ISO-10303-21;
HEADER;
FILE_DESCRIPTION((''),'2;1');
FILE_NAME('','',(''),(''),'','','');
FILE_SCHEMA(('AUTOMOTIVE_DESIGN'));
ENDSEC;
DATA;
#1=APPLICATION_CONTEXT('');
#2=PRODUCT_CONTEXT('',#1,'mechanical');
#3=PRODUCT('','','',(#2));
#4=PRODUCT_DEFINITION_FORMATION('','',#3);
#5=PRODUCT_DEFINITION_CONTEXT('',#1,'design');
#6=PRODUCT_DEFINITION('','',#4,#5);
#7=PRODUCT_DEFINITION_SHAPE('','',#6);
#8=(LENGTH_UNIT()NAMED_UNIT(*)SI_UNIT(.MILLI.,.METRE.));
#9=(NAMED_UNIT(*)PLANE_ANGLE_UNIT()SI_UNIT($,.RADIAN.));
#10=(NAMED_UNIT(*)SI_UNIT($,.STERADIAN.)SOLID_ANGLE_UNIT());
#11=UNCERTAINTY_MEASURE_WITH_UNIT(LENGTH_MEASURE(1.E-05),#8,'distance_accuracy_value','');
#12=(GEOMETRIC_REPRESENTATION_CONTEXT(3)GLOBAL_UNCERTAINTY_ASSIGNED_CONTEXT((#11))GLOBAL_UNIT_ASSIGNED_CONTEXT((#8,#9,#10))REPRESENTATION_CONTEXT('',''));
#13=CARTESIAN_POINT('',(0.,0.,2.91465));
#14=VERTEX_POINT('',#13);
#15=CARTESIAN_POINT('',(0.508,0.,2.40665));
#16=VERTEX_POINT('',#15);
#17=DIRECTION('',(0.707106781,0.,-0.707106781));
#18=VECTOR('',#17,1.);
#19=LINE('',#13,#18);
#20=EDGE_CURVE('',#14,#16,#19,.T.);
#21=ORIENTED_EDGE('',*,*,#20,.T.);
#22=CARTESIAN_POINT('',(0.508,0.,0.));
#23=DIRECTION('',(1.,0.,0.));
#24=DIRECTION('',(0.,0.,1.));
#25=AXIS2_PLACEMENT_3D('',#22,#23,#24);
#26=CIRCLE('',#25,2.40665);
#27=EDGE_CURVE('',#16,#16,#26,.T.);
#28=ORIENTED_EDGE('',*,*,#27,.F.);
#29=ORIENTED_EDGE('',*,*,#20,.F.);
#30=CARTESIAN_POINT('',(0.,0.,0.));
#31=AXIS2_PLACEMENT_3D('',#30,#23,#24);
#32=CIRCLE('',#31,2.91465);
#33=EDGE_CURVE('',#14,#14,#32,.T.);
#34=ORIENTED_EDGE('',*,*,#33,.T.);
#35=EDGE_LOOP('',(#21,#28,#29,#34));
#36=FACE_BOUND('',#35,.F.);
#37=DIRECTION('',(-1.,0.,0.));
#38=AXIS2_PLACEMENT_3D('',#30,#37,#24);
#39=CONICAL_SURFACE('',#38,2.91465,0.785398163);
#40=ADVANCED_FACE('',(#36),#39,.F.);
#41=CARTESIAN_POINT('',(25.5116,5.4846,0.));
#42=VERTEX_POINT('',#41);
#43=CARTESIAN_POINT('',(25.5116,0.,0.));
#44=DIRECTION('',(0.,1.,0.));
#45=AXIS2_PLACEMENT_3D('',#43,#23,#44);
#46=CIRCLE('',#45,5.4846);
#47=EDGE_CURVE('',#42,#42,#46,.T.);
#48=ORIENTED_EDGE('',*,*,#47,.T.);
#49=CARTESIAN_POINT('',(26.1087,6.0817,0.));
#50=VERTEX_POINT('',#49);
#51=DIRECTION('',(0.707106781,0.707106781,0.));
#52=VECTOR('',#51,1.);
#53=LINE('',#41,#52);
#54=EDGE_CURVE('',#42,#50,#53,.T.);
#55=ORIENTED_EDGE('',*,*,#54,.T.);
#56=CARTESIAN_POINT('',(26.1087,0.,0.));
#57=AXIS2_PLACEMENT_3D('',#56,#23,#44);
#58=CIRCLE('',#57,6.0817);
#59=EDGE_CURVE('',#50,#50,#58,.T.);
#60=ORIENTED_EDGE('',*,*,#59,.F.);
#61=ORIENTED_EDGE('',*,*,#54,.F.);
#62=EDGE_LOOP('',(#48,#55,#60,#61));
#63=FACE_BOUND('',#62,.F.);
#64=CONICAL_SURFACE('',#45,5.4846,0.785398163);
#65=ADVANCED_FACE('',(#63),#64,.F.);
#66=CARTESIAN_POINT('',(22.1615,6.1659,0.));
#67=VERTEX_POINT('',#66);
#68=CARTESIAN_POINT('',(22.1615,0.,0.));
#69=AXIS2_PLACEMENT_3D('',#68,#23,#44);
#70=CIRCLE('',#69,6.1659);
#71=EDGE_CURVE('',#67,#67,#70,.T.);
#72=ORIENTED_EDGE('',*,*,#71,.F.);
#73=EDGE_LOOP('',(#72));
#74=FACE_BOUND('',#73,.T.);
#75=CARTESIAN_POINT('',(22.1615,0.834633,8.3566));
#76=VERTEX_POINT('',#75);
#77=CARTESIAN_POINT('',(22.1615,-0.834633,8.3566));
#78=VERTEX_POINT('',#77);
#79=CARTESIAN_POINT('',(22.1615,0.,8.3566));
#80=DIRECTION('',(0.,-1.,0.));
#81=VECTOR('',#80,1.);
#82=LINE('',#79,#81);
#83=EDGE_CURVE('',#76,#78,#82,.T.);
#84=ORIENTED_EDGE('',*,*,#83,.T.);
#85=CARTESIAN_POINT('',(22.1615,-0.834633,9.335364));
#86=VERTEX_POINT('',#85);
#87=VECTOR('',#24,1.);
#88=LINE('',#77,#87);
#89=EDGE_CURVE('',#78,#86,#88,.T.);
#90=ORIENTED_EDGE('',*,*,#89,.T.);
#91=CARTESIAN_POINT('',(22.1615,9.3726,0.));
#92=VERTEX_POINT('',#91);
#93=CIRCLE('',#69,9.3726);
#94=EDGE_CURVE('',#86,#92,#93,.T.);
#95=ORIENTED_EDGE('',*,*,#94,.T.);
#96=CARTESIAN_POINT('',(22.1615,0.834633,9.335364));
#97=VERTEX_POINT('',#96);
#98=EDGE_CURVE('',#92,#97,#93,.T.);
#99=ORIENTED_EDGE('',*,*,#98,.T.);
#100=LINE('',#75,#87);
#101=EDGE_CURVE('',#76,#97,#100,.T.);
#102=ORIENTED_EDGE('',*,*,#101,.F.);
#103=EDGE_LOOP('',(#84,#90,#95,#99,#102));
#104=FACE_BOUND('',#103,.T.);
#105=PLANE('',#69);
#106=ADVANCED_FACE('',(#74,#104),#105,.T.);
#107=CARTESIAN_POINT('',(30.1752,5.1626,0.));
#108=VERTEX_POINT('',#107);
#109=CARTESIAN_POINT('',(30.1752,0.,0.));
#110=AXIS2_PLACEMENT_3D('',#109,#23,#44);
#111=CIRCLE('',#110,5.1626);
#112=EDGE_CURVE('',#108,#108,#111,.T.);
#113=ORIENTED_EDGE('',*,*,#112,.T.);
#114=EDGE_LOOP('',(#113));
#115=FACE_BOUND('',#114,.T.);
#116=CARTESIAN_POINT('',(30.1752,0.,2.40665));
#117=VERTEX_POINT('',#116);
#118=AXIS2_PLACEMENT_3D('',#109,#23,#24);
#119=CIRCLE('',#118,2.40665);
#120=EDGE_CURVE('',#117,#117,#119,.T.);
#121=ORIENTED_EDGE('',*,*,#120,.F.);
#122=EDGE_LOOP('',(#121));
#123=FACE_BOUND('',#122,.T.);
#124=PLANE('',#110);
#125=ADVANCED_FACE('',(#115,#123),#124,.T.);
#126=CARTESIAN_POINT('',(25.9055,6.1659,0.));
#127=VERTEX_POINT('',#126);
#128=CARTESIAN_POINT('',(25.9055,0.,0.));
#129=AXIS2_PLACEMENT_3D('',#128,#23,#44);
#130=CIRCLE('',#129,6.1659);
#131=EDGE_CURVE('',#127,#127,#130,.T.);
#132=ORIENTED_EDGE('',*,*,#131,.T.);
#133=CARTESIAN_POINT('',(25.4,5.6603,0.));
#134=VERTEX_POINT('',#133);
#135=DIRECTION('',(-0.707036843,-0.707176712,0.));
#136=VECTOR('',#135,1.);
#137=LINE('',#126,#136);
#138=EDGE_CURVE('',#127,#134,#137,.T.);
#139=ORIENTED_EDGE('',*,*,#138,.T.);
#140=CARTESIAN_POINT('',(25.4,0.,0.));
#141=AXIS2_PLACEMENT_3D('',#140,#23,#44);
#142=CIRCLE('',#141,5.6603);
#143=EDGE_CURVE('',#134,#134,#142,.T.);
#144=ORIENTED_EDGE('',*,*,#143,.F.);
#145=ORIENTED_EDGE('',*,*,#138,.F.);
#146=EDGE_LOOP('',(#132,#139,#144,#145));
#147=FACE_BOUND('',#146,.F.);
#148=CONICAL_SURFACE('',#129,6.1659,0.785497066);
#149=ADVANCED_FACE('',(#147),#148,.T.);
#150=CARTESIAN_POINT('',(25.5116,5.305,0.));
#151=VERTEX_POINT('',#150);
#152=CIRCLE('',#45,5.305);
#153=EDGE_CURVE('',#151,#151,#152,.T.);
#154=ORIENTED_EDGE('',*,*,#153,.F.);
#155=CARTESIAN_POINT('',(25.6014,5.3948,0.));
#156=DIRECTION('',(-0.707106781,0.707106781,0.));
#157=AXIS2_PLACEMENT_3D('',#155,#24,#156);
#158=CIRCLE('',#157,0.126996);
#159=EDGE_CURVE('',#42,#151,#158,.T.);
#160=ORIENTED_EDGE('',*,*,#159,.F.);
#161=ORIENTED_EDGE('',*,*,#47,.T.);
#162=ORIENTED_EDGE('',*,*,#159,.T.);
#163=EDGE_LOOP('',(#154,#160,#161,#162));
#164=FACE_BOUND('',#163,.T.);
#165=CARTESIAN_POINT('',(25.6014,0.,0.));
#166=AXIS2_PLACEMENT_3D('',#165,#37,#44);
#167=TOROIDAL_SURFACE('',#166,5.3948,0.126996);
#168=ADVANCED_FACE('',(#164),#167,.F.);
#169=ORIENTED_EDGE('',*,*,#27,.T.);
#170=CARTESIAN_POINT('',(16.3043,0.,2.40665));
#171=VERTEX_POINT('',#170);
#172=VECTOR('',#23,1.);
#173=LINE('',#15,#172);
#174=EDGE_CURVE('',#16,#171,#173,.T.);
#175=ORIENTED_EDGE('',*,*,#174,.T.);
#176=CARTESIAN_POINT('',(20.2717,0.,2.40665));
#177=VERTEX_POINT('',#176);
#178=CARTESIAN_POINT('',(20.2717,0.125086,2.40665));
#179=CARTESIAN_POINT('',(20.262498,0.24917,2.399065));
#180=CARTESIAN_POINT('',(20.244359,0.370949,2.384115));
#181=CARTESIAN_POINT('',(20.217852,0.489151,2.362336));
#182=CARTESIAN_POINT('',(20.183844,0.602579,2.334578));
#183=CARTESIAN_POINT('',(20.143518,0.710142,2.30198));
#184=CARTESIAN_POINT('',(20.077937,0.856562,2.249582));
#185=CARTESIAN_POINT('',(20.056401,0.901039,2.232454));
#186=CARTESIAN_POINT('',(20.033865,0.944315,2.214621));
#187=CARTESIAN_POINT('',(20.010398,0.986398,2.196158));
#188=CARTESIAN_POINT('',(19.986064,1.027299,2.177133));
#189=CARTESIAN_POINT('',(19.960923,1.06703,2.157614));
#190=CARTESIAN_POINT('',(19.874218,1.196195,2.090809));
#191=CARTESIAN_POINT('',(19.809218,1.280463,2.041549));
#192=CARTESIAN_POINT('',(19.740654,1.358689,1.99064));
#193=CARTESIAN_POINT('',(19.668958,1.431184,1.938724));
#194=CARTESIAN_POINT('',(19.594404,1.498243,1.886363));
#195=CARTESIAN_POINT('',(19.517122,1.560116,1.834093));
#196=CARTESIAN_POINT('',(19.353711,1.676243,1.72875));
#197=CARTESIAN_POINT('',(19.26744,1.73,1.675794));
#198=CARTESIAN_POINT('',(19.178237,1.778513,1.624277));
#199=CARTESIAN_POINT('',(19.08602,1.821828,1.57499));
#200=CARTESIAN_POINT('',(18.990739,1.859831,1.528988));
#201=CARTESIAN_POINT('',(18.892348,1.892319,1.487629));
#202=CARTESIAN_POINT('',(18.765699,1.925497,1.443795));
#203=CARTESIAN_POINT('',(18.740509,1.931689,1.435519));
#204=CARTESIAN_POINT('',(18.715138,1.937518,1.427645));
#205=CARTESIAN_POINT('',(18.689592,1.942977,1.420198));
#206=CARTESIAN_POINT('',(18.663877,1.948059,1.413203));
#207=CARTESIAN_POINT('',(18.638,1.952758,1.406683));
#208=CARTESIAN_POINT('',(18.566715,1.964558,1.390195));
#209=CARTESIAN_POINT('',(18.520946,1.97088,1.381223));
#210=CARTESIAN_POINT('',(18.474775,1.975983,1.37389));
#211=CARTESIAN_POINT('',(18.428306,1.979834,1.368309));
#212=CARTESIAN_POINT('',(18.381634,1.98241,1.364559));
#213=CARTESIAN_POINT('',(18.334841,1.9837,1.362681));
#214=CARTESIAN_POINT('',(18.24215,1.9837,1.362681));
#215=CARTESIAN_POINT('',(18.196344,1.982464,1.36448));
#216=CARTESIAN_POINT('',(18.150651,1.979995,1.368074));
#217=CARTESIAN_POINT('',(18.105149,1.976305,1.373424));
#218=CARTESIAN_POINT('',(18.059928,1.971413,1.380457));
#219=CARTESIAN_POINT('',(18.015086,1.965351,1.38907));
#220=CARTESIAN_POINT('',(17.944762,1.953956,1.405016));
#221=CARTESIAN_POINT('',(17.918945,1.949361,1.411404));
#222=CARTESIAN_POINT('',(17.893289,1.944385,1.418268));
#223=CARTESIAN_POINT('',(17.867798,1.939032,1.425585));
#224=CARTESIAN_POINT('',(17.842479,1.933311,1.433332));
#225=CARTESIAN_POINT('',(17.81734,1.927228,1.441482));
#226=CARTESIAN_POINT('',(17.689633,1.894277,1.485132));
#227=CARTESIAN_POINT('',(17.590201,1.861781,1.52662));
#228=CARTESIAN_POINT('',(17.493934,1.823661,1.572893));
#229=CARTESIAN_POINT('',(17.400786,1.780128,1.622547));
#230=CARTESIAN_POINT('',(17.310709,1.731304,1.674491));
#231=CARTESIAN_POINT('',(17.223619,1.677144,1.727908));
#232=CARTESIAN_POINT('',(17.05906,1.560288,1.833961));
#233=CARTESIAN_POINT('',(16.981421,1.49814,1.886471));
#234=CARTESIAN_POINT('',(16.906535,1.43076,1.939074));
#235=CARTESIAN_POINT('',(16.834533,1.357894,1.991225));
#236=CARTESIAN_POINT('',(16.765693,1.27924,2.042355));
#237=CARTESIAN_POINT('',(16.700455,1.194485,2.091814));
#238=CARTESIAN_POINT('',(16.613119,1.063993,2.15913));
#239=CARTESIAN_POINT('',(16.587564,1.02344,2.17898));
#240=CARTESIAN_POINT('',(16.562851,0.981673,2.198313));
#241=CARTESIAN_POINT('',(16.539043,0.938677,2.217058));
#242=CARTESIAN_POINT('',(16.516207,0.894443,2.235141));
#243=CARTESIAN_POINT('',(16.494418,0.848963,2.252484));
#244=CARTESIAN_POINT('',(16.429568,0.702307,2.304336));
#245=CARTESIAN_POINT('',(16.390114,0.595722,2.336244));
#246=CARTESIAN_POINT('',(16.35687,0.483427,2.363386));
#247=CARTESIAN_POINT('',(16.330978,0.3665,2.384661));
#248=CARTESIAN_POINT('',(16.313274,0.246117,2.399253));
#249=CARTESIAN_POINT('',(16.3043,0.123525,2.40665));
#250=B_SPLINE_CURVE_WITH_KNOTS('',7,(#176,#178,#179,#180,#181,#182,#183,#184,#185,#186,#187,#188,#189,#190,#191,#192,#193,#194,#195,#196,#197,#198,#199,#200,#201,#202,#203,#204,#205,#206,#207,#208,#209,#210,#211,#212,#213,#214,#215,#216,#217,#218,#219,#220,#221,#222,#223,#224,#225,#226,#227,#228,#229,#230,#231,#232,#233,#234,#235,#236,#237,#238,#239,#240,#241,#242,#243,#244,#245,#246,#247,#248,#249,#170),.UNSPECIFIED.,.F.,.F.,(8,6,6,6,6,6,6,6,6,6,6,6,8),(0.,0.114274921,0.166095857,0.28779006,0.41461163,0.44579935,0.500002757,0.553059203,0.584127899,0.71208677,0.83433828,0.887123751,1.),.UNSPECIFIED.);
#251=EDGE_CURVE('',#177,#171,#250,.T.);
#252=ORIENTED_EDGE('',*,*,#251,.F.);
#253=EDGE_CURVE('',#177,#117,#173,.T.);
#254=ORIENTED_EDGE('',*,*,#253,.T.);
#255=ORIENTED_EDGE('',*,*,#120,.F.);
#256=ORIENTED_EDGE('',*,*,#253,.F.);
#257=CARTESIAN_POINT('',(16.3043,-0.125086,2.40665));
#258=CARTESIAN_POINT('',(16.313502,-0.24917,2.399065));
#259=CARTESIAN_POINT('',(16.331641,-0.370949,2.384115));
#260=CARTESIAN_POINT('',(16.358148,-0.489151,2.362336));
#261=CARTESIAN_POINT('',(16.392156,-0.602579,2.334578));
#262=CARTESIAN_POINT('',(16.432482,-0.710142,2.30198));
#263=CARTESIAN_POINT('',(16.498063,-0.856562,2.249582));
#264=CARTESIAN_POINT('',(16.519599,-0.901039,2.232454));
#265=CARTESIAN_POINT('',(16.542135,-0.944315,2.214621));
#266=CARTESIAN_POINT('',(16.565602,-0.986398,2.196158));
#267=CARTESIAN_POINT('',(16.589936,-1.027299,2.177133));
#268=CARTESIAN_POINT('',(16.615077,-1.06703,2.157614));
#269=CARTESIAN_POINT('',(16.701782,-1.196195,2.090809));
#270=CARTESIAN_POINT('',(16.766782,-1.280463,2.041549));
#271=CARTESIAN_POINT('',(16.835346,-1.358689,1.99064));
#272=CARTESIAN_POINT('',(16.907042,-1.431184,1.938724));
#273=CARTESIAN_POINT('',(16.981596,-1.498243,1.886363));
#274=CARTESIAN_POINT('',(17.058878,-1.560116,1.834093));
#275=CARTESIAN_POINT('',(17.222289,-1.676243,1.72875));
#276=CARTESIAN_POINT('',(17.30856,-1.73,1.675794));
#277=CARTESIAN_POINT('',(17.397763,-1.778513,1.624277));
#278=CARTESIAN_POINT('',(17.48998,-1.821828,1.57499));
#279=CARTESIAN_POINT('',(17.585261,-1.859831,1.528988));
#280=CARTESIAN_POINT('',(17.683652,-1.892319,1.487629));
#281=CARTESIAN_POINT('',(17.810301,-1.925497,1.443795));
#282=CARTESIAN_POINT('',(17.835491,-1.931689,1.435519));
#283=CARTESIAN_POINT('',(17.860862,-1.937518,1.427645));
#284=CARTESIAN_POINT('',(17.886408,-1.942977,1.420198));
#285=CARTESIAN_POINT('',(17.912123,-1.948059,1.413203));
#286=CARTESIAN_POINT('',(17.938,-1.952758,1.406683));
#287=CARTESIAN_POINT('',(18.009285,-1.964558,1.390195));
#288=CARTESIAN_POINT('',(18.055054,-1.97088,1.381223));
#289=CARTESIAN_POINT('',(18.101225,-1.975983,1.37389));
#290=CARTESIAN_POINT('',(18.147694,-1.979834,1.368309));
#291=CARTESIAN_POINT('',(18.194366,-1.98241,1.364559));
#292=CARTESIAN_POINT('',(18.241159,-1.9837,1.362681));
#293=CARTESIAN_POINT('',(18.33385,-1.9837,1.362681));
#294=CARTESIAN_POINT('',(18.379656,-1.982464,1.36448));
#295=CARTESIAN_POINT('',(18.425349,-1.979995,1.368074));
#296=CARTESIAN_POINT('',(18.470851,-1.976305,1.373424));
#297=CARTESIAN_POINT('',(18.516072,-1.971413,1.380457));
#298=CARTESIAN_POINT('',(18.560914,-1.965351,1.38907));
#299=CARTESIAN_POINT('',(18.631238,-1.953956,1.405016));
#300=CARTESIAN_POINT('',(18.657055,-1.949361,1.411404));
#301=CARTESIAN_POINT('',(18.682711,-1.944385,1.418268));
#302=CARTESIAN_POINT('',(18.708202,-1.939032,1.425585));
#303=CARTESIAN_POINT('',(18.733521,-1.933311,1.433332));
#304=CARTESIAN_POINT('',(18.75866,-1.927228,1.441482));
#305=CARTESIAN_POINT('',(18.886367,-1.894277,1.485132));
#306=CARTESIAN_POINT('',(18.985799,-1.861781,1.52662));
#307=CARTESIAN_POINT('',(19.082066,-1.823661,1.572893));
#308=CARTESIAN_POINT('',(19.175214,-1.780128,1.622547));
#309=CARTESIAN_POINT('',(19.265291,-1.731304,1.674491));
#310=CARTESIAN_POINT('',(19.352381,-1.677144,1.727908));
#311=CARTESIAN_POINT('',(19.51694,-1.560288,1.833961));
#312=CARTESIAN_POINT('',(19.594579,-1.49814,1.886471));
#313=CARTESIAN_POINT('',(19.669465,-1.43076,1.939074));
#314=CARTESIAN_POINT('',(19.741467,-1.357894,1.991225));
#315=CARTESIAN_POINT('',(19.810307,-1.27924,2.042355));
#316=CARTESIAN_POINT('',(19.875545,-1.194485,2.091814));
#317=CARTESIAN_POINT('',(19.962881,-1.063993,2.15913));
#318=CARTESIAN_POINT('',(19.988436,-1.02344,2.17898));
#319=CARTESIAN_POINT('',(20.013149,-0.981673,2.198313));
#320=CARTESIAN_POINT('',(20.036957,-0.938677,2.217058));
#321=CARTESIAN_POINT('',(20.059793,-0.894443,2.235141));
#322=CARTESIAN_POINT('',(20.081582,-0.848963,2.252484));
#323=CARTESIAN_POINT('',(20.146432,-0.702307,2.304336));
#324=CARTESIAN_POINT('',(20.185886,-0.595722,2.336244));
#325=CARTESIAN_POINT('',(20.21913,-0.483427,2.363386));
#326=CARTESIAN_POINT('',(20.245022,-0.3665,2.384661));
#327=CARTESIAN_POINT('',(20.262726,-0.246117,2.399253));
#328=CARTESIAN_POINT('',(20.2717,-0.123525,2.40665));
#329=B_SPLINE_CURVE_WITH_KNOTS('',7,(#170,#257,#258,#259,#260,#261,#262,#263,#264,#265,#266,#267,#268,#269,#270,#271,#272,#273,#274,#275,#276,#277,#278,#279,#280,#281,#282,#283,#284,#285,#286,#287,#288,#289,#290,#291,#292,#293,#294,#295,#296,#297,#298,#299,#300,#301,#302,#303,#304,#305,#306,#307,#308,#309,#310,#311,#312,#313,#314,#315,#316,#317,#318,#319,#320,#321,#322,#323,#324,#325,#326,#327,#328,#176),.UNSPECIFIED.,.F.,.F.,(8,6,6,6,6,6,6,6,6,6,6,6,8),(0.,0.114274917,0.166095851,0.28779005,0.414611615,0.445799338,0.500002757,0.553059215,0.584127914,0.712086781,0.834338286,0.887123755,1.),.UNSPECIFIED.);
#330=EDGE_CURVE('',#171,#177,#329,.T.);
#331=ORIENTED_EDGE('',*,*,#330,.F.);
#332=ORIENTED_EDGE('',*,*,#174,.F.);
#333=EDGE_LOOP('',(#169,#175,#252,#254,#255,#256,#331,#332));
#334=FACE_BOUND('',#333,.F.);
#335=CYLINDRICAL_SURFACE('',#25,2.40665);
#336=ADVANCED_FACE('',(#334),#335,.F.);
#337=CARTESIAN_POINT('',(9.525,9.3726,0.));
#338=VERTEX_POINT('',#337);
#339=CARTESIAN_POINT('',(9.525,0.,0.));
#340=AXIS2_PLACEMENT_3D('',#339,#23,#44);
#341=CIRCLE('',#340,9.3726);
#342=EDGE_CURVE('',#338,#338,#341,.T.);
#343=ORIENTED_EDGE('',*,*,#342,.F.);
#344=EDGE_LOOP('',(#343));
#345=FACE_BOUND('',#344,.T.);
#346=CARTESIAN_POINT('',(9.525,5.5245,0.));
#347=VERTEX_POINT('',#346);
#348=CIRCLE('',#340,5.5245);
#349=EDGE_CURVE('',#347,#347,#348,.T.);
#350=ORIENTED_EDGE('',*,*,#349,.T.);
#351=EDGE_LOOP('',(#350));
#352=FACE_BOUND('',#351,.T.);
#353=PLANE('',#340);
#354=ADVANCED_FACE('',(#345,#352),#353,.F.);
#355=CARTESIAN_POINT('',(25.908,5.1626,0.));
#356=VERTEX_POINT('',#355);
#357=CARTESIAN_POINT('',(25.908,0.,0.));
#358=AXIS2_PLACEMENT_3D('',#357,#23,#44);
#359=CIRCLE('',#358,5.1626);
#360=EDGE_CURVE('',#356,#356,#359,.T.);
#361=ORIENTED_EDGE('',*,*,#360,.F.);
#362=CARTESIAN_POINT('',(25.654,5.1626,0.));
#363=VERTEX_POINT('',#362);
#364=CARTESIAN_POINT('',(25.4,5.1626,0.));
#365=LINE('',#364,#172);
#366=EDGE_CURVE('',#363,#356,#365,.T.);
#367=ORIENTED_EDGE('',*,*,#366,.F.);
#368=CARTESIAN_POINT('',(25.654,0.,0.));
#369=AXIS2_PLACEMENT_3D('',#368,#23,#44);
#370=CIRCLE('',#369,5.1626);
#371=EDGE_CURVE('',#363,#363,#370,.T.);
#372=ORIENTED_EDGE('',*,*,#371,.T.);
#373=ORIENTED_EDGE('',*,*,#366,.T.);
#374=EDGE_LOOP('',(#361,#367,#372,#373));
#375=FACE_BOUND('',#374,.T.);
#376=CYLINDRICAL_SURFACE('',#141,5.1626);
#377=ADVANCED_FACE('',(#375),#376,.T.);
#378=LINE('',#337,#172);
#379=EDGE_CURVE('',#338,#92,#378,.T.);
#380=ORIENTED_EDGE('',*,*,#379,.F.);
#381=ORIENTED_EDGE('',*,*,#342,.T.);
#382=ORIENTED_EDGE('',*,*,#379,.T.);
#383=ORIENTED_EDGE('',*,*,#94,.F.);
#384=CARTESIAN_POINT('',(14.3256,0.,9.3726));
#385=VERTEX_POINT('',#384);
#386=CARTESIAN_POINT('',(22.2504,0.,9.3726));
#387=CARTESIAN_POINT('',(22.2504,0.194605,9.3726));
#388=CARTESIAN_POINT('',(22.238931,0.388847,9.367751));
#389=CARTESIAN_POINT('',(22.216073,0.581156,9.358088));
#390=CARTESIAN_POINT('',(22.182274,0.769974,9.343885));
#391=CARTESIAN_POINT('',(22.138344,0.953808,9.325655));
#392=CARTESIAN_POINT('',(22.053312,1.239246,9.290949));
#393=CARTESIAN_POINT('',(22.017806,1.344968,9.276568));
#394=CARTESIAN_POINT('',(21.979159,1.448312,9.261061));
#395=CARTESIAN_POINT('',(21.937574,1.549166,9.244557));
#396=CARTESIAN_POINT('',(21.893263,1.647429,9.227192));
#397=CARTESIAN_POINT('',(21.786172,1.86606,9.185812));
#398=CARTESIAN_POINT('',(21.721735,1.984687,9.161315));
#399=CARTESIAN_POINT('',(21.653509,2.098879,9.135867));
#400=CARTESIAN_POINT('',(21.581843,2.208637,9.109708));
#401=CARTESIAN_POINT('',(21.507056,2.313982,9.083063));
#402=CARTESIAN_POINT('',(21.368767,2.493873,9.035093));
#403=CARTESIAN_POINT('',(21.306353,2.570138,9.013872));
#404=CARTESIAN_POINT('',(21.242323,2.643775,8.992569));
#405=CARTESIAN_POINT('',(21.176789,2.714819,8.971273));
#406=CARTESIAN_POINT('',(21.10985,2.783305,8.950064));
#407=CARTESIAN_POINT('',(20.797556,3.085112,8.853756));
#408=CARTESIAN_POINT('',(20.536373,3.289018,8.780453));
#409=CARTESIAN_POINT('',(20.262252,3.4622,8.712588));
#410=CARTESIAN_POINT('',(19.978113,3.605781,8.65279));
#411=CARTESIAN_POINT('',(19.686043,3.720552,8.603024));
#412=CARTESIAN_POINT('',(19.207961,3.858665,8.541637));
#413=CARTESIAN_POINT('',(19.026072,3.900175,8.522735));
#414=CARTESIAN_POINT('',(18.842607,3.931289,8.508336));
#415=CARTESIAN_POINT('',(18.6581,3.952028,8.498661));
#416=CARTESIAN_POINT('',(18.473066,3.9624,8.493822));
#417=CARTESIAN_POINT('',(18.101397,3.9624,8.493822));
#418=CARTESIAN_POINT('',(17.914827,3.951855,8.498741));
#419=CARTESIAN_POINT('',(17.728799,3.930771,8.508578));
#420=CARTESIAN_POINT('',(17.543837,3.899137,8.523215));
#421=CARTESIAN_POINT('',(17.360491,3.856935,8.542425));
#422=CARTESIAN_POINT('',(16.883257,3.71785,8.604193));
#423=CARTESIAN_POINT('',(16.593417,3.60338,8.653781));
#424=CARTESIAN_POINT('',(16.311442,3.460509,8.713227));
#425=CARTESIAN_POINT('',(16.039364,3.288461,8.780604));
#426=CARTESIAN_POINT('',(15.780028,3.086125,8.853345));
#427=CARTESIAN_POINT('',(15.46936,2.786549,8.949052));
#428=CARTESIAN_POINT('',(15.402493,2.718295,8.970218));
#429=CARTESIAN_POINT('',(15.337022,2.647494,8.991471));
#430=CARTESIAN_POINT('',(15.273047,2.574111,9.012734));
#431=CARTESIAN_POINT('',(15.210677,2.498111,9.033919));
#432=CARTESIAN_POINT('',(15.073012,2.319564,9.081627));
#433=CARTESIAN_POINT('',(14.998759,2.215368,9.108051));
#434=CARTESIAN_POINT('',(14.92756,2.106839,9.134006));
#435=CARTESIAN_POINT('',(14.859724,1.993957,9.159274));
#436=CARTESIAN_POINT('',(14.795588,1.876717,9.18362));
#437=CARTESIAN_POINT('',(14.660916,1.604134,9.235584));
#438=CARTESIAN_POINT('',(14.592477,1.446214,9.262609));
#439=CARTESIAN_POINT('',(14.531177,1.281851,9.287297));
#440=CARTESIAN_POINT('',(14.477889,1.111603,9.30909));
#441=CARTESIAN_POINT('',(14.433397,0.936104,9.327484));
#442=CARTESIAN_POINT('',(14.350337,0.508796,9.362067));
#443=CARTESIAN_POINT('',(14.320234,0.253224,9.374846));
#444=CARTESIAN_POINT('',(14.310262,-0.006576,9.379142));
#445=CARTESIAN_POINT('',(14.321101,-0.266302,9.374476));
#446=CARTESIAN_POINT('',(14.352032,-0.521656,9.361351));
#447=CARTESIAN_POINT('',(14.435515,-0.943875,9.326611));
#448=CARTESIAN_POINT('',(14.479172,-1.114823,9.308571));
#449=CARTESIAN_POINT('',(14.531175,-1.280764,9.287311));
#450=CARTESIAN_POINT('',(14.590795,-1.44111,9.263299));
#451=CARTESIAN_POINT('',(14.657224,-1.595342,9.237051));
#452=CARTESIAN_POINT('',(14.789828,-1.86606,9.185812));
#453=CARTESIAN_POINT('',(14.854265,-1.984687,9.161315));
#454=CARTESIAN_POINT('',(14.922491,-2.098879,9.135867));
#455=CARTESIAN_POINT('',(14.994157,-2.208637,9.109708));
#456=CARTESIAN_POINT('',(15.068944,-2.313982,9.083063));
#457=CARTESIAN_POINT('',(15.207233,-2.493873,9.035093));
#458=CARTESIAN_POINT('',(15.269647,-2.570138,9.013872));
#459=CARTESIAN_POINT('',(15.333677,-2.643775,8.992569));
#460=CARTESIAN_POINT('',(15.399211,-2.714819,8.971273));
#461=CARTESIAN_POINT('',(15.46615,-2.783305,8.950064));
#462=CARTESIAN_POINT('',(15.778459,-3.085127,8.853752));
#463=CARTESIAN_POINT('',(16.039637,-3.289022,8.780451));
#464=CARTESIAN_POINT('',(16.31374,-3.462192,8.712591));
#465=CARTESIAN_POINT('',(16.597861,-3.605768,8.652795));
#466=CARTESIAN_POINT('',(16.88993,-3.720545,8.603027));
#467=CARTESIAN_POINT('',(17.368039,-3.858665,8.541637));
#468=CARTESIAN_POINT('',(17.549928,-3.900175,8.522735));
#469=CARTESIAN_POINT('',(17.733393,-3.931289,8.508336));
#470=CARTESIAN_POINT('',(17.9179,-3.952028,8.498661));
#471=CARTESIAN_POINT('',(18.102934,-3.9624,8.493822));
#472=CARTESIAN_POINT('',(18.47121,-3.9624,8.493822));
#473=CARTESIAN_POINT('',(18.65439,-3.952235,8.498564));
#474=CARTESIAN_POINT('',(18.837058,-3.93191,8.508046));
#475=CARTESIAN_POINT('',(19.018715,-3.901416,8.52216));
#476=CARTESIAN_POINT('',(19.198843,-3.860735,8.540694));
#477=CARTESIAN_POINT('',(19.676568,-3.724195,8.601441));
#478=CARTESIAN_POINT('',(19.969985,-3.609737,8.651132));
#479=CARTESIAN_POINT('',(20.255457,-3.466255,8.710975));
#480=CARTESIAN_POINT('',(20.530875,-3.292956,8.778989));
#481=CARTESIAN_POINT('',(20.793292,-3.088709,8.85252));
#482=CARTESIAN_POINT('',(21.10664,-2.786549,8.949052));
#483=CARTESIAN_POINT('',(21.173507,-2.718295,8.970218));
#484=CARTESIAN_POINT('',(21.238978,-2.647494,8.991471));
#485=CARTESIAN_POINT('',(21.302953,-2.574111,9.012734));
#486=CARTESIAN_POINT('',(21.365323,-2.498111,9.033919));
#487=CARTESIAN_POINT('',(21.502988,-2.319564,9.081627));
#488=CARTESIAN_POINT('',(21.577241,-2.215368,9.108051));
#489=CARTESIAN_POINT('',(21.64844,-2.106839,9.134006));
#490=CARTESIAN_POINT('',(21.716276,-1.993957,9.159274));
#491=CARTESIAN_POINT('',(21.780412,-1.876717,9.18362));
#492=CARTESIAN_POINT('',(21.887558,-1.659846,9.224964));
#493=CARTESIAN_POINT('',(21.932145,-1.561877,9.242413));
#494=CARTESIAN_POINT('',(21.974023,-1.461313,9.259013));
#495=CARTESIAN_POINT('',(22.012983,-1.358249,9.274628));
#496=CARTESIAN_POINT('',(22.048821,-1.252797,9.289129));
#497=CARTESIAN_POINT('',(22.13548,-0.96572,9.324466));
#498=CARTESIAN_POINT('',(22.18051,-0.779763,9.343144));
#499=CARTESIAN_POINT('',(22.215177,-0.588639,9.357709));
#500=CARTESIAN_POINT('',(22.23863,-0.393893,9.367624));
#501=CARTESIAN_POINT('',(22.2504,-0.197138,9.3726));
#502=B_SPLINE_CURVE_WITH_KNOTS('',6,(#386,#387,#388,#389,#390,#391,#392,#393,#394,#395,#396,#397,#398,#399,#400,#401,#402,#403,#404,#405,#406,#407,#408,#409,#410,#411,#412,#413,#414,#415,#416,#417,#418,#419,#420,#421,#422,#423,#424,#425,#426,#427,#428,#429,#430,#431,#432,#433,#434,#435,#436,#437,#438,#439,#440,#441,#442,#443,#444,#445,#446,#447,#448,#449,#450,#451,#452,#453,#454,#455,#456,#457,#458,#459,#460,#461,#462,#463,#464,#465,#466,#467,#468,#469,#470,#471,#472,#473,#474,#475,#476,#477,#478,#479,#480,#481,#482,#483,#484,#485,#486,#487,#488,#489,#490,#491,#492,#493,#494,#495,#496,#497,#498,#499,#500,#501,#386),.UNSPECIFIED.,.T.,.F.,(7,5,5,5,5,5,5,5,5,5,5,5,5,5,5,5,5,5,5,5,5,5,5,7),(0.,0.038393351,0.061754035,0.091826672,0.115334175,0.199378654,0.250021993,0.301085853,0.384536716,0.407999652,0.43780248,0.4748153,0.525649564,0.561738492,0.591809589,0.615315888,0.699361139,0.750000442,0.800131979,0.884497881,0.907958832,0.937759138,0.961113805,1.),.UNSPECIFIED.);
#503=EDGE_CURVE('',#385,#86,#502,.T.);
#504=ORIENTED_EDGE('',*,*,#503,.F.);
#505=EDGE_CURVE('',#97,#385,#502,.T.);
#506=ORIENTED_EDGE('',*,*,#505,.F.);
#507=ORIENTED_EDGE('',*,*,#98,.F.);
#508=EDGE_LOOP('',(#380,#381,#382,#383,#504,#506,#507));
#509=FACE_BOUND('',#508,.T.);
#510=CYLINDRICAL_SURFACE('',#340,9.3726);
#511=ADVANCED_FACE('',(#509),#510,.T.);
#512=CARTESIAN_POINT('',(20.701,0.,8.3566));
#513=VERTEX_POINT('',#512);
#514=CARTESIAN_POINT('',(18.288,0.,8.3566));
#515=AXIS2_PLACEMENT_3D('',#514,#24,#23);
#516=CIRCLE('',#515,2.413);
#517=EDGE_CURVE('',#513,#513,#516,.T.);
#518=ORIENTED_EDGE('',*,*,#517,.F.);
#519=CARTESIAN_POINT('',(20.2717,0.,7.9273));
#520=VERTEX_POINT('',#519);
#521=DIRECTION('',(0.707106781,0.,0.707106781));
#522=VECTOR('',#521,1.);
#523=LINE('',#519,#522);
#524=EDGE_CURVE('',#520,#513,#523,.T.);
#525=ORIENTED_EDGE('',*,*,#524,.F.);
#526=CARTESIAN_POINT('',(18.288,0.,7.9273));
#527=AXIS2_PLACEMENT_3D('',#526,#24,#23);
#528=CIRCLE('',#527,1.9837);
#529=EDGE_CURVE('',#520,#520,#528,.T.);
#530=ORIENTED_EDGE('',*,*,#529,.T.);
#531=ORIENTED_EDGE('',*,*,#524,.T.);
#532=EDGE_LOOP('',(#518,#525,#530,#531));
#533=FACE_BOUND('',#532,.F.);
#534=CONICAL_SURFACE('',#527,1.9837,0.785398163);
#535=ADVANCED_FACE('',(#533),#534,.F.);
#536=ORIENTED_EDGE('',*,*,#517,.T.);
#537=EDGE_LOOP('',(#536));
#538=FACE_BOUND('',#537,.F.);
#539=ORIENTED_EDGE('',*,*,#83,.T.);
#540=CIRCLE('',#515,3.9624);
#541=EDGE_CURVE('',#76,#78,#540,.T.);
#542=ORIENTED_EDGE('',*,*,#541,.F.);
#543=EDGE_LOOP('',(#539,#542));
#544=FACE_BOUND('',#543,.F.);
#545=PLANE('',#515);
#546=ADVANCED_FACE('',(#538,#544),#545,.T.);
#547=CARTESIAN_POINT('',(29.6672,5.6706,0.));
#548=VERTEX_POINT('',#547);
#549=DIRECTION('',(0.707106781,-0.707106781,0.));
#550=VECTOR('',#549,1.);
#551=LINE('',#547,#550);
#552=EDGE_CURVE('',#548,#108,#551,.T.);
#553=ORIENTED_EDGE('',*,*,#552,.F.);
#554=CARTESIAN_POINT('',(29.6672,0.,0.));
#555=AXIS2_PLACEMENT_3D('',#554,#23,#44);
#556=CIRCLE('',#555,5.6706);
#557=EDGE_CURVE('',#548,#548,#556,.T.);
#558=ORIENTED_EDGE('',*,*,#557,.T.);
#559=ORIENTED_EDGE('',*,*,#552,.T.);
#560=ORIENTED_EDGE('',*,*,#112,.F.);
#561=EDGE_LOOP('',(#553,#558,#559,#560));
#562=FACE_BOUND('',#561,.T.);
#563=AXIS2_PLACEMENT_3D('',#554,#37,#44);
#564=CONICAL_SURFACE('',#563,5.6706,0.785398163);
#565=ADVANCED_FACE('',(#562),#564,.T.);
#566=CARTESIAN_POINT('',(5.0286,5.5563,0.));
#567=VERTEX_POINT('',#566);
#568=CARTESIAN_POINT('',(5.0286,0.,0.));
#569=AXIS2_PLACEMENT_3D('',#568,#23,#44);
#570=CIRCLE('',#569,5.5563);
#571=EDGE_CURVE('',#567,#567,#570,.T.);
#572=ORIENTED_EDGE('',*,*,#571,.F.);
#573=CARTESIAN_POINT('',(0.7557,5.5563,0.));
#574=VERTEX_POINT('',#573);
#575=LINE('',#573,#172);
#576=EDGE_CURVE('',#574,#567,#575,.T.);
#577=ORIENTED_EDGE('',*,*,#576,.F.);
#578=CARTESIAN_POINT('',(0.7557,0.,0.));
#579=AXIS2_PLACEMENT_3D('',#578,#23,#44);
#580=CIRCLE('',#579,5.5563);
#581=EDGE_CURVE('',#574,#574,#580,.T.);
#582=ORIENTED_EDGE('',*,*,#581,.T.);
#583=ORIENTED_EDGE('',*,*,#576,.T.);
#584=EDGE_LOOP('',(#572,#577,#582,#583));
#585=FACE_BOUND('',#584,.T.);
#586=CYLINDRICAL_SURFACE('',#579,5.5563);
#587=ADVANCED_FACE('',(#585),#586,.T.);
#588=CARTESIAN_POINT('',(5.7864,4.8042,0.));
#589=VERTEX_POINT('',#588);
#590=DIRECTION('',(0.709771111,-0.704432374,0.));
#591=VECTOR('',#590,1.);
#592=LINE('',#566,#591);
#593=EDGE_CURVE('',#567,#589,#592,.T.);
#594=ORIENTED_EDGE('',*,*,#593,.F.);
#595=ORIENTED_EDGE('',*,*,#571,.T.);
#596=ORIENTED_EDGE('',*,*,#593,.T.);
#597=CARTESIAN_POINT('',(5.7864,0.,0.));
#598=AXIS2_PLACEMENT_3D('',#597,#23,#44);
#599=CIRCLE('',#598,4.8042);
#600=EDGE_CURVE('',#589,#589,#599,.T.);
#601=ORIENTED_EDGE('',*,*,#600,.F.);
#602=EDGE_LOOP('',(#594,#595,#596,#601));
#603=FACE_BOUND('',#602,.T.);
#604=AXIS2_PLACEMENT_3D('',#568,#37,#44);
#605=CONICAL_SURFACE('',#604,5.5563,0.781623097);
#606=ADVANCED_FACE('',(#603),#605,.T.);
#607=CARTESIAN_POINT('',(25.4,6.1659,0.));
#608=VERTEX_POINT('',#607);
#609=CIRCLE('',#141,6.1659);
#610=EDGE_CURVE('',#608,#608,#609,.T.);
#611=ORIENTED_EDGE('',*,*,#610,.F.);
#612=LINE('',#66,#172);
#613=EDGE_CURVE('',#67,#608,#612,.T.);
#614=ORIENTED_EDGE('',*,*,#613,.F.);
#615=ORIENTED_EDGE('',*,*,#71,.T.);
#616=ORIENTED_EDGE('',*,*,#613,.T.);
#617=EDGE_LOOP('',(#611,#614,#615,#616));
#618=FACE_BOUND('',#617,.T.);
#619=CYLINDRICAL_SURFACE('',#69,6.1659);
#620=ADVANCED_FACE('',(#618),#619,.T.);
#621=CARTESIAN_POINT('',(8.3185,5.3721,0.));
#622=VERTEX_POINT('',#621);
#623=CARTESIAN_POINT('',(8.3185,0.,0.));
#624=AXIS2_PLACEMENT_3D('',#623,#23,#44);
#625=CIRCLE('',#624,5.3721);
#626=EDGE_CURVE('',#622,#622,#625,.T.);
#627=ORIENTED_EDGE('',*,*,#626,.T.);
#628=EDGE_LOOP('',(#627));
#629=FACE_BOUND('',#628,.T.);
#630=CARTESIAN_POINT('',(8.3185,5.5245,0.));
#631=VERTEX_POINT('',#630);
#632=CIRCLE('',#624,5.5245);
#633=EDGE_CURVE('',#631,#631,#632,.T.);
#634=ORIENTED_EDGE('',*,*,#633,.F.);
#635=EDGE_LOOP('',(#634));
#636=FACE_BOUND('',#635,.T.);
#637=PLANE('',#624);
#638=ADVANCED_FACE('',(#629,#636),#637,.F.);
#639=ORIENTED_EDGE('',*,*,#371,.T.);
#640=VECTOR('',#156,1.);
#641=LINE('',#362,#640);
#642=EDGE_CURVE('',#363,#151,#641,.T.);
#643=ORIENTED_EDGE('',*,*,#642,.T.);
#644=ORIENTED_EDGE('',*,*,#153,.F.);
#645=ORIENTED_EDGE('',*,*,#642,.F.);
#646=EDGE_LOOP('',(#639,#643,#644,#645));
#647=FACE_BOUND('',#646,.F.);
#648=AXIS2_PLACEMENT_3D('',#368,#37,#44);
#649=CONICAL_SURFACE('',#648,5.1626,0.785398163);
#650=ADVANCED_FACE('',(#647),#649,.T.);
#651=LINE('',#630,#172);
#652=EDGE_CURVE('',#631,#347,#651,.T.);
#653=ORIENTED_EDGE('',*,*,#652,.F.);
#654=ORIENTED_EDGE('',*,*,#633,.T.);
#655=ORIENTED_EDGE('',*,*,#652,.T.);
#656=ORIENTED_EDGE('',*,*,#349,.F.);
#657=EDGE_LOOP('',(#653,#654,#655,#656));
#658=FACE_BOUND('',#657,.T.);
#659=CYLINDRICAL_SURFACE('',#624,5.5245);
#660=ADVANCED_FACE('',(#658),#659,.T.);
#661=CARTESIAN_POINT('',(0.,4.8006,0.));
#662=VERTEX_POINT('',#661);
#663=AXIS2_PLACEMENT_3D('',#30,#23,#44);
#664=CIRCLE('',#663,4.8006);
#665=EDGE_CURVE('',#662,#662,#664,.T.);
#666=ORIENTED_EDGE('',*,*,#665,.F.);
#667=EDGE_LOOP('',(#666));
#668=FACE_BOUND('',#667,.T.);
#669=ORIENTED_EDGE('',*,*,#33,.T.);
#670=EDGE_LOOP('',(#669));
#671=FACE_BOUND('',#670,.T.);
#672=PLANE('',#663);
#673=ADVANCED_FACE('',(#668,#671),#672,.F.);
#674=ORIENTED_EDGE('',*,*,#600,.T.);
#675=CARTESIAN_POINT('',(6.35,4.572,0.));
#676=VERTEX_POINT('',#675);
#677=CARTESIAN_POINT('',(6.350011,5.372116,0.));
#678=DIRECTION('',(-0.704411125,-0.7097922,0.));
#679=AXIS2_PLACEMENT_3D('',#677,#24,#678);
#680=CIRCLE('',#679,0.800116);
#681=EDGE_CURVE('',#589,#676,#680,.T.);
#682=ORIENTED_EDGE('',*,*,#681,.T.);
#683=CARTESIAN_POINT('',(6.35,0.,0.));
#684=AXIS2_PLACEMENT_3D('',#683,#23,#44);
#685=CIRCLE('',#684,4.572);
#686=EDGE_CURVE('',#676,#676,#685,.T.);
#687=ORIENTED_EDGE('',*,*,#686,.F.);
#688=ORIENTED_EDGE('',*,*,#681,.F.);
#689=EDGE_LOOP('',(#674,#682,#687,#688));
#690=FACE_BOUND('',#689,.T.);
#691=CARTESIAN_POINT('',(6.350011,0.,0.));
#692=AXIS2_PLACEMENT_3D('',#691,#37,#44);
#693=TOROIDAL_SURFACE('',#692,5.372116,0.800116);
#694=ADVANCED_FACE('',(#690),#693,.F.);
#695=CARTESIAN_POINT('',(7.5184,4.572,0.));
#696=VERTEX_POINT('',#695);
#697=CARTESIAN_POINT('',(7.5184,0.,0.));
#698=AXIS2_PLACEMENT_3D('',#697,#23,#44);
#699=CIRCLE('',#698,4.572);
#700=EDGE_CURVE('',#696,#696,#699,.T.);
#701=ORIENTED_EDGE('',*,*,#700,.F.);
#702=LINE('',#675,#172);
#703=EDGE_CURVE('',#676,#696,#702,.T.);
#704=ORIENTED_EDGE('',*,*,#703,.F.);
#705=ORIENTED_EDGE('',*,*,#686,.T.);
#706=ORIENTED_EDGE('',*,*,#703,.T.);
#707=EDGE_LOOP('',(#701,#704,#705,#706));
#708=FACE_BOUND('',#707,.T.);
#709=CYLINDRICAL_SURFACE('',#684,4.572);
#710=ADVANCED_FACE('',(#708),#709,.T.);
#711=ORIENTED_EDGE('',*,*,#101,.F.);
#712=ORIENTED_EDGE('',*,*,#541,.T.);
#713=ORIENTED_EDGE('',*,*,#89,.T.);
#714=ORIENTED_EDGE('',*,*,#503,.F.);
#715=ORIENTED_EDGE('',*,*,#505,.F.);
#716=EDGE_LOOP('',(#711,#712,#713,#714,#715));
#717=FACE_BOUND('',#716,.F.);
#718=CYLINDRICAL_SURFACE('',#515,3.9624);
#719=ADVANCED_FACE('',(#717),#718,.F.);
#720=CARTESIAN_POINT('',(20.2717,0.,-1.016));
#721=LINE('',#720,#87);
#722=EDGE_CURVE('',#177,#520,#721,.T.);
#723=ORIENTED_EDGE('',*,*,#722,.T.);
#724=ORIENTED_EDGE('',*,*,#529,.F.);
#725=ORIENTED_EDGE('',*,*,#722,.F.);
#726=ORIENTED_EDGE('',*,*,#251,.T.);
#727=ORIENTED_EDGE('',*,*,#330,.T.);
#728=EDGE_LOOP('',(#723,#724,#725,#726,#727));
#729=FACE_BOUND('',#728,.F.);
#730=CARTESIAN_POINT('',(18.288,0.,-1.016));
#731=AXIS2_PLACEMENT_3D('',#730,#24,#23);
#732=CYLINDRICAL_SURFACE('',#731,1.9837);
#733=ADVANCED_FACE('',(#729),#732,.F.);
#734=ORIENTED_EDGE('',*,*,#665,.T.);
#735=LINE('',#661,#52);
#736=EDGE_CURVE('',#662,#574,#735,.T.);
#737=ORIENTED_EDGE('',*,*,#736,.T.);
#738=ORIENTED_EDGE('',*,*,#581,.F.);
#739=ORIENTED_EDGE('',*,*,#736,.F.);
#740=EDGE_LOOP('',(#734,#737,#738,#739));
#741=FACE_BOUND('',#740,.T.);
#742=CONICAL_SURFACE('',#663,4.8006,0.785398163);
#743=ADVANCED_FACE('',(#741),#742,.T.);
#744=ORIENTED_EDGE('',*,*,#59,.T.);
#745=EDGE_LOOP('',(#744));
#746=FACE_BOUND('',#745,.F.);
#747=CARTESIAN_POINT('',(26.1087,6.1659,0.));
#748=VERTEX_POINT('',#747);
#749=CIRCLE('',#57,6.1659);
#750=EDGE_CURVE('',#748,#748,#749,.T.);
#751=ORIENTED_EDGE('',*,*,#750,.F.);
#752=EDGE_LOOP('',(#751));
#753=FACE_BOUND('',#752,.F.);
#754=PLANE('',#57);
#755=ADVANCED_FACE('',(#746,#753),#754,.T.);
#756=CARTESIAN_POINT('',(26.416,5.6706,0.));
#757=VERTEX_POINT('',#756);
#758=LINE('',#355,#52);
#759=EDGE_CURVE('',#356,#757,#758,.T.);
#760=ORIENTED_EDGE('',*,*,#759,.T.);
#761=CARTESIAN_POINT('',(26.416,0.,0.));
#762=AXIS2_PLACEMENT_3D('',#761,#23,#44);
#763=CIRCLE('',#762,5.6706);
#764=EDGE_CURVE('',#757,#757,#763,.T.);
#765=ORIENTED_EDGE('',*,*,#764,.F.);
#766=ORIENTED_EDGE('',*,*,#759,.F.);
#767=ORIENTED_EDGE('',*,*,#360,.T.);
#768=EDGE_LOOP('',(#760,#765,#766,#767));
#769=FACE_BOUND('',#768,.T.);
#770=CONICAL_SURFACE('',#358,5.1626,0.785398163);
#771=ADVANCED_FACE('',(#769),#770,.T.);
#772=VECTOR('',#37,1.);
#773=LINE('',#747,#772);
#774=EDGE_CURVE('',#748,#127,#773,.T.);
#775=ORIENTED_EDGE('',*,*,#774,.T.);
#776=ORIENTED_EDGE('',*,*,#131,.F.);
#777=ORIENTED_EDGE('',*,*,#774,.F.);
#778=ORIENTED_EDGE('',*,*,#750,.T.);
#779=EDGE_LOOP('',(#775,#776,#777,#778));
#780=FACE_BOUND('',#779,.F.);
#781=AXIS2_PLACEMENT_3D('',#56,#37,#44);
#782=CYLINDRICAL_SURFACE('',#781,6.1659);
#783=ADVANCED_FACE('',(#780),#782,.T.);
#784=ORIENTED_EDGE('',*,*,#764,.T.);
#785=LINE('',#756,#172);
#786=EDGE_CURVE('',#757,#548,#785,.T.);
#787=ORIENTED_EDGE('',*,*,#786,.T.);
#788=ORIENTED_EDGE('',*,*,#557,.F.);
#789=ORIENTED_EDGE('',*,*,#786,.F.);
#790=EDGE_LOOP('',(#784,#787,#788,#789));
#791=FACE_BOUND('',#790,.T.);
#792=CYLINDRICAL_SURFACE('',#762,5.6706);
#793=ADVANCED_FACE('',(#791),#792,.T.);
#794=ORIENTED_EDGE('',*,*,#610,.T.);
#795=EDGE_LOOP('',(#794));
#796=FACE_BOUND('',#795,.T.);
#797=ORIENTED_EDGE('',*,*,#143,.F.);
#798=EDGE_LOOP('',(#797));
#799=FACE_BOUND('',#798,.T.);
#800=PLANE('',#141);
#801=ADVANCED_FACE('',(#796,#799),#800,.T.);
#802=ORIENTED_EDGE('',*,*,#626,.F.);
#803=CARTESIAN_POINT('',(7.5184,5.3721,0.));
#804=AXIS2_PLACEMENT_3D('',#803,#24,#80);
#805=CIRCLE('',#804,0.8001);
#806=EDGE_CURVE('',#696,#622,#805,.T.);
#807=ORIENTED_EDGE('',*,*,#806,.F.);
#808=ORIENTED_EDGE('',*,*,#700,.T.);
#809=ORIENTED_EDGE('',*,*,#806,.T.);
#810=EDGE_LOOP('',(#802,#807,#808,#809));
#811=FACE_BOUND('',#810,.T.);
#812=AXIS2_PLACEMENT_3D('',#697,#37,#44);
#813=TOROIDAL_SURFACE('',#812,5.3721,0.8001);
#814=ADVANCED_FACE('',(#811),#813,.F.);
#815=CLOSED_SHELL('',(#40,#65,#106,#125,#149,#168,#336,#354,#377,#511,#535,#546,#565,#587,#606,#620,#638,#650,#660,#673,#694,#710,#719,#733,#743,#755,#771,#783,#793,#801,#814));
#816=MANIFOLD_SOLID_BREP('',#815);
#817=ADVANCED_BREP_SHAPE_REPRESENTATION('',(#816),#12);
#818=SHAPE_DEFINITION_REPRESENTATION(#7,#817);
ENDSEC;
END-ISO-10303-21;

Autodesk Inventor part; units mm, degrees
sketch "Sketch_2" plane through (0, 0, 0) normal (0, 0, 1) x (1, 0, 0)
  line L0 (9.525, 0) -> (0, 0)
  line L1 (0, 0) -> (0, 4.8006)
  line L2 (0, 4.8006) -> (0.7557, 5.5563)
  line L3 (0.7557, 5.5563) -> (5.0286, 5.5563)
  line L4 (5.0286, 5.5563) -> (5.7864, 4.8042)
  arc A0 (5.7864, 4.8042) -> (6.35, 4.572) centre (6.35, 5.3721) ccw
  line L5 (6.35, 4.572) -> (7.5184, 4.572)
  arc A1 (7.5184, 4.572) -> (8.3185, 5.3721) centre (7.5184, 5.3721) ccw
  line L6 (8.3185, 5.3721) -> (8.3185, 5.5245)
  line L7 (8.3185, 5.5245) -> (9.525, 5.5245)
  line L8 (9.525, 5.5245) -> (9.525, 0)
  line L9 (9.525, 0) -> (0, 0)
revolve "Revolution1" add sketch "Sketch_2" angle 360 about axis through (9.525, 0, 0) along (1, 0, 0)
thread "Thread1" size "7/16-20 UNF" class "2A" standard "ANSI Unified Screw Threads" full length
sketch "Sketch_3" plane through (0, 0, 0) normal (0, 0, 1) x (1, 0, 0)
  line L0 (30.1752, 0) -> (9.525, 0)
  line L1 (9.525, 0) -> (9.525, 9.3726)
  line L2 (9.525, 9.3726) -> (25.4, 9.3726)
  line L3 (25.4, 9.3726) -> (25.4, 5.1626)
  line L4 (25.4, 5.1626) -> (25.908, 5.1626)
  line L5 (25.908, 5.1626) -> (26.416, 5.6706)
  line L6 (26.416, 5.6706) -> (29.6672, 5.6706)
  line L7 (29.6672, 5.6706) -> (30.1752, 5.1626)
  line L8 (30.1752, 5.1626) -> (30.1752, 0)
  line L9 (30.1752, 0) -> (9.525, 0)
revolve "Revolution2" add sketch "Sketch_3" angle 360 about axis through (30.1752, 0, 0) along (1, 0, 0)
sketch "Sketch3" plane through (0, 0, 0) normal (-1, 0, 0) x (0, 0, 1)
  point P0 (0, 0)
hole "Hole1" at (0, 0, 0) direction (1, 0, 0) diameter 4.8133 depth 30.1752 countersink diameter 5.8293 countersink angle 90
sketch "Sketch_12" plane through (0, 0, 0) normal (0, 1, 0) x (-1, 0, 0)
  line L0 (-18.288, 9.3726) -> (-18.288, -1.016)
  line L1 (-18.288, -1.016) -> (-20.2717, -1.016)
  line L2 (-20.2717, -1.016) -> (-20.2717, 7.9273)
  line L3 (-20.2717, 7.9273) -> (-20.701, 8.3566)
  line L4 (-20.701, 8.3566) -> (-22.2504, 8.3566)
  line L5 (-22.2504, 8.3566) -> (-22.2504, 9.3726)
  line L6 (-22.2504, 9.3726) -> (-18.288, 9.3726)
  line L7 (-18.288, 9.3726) -> (-18.288, -1.016)
revolve "Revolution3" cut sketch "Sketch_12" angle 360 about axis through (18.288, 0, 9.3726) along (0, 0, 1)
thread "Thread2" size "10-32 UNF" class "2B" standard "ANSI Unified Screw Threads" length 4.7752 offset 2.2188
sketch "Sketch_14" plane through (0, 0, 0) normal (0, 0, 1) x (1, 0, 0)
  line L0 (25.4, 0) -> (22.1615, 0)
  line L1 (22.1615, 6.1659) -> (25.4, 6.1659)
  line L2 (25.4, 6.1659) -> (25.4, 9.9758)
  line L3 (25.4, 9.9758) -> (22.1615, 9.9758)
  line L4 (22.1615, 9.9758) -> (22.1615, 6.1659)
revolve "Revolution4" cut sketch "Sketch_14" angle 360 about axis through (25.4, 0, 0) along (1, 0, 0)
sketch "Sketch_47" plane through (0, 0, 0) normal (0, 0, 1) x (1, 0, 0)
  line L0 (25.908, 0) -> (25.4, 0)
  line L1 (25.4, 4.9085) -> (25.908, 4.9085)
  line L2 (25.908, 4.9085) -> (25.908, 5.1626)
  line L3 (25.908, 5.1626) -> (25.654, 5.1626)
  line L4 (25.654, 5.1626) -> (25.5116, 5.305)
  arc A0 (25.5116, 5.4846) -> (25.5116, 5.305) centre (25.6014, 5.3948) ccw
  line L5 (25.5116, 5.4846) -> (26.1087, 6.0817)
  line L6 (26.1087, 6.0817) -> (26.1087, 6.1659)
  line L7 (26.1087, 6.1659) -> (25.9055, 6.1659)
  line L8 (25.9055, 6.1659) -> (25.4, 5.6603)
  line L9 (25.4, 5.6603) -> (25.4, 4.9085)
revolve "Revolution5" add sketch "Sketch_47" angle 360 about axis through (25.908, 0, 0) along (1, 0, 0)
ref_plane "dp1_XY" through (9.525, 5.5245, 0) normal (0, 0, 1) x (1, 0, 0)
ref_plane "dp1_YZ" through (9.525, 5.5245, 0) normal (1, 0, 0) x (0, 1, 0)
ref_plane "dp1_ZX" through (9.525, 5.5245, 0) normal (0, 1, 0) x (0, 0, 1)
ref_plane "dp2_XY" through (9.525, -5.5245, 0) normal (0, 0, 1) x (1, 0, 0)
ref_plane "dp2_YZ" through (9.525, -5.5245, 0) normal (1, 0, 0) x (0, 1, 0)
ref_plane "dp2_ZX" through (9.525, -5.5245, 0) normal (0, 1, 0) x (0, 0, 1)
ref_plane "port_XY" through (18.288, 0, 0) normal (0, 0, 1) x (1, 0, 0)
ref_plane "port_YZ" through (18.288, 0, 0) normal (1, 0, 0) x (0, 1, 0)
ref_plane "port_ZX" through (18.288, 0, 0) normal (0, 1, 0) x (0, 0, 1)
ref_plane "rod_guide_XY" through (0, 0, 0) normal (1, 0, 0) x (0, 0, -1)
ref_plane "rod_guide_YZ" through (0, 0, 0) normal (0, 0, -1) x (0, 1, 0)
ref_plane "rod_guide_ZX" through (0, 0, 0) normal (0, 1, 0) x (1, 0, 0)
ref_plane "s1_XY" through (8.3185, 0, 0) normal (0, 0, 1) x (1, 0, 0)
ref_plane "s1_YZ" through (8.3185, 0, 0) normal (1, 0, 0) x (0, 1, 0)
ref_plane "s1_ZX" through (8.3185, 0, 0) normal (0, 1, 0) x (0, 0, 1)
ref_plane "s2_XY" through (9.525, 0, 0) normal (0, 0, 1) x (1, 0, 0)
ref_plane "s2_YZ" through (9.525, 0, 0) normal (1, 0, 0) x (0, 1, 0)
ref_plane "s2_ZX" through (9.525, 0, 0) normal (0, 1, 0) x (0, 0, 1)
ref_plane "t1_XY" through (9.525, 0, 0) normal (1, 0, 0) x (0, 0, -1)
ref_plane "t1_YZ" through (9.525, 0, 0) normal (0, 0, -1) x (0, 1, 0)
ref_plane "t1_ZX" through (9.525, 0, 0) normal (0, 1, 0) x (1, 0, 0)
ref_plane "t111_XY" through (9.525, 0, 0) normal (1, 0, 0) x (0, 0, -1)
ref_plane "t111_YZ" through (9.525, 0, 0) normal (0, 0, -1) x (0, 1, 0)
ref_plane "t111_ZX" through (9.525, 0, 0) normal (0, 1, 0) x (1, 0, 0)
ref_plane "to_foot_bracket_XY" through (9.525, 0, 0) normal (1, 0, 0) x (0, 0, -1)
ref_plane "to_foot_bracket_YZ" through (9.525, 0, 0) normal (0, 0, -1) x (0, 1, 0)
ref_plane "to_foot_bracket_ZX" through (9.525, 0, 0) normal (0, 1, 0) x (1, 0, 0)
ref_plane "to_nut_XY" through (8.3185, 0, 0) normal (1, 0, 0) x (0, 0, -1)
ref_plane "to_nut_YZ" through (8.3185, 0, 0) normal (0, 0, -1) x (0, 1, 0)
ref_plane "to_nut_ZX" through (8.3185, 0, 0) normal (0, 1, 0) x (1, 0, 0)
ref_plane "to_rod_XY" through (0, 0, 0) normal (1, 0, 0) x (0, 0, -1)
ref_plane "to_rod_YZ" through (0, 0, 0) normal (0, 0, -1) x (0, 1, 0)
ref_plane "to_rod_ZX" through (0, 0, 0) normal (0, 1, 0) x (1, 0, 0)
ref_plane "to_screw_XY" through (18.288, 0, 0) normal (0, 1, 0) x (1, 0, 0)
ref_plane "to_screw_YZ" through (18.288, 0, 0) normal (1, 0, 0) x (0, 0, -1)
ref_plane "to_screw_ZX" through (18.288, 0, 0) normal (0, 0, -1) x (0, 1, 0)
ref_plane "to_trunnion_brackets_XY" through (7.9248, 0, 0) normal (0, 1, 0) x (1, 0, 0)
ref_plane "to_trunnion_brackets_YZ" through (7.9248, 0, 0) normal (1, 0, 0) x (0, 0, -1)
ref_plane "to_trunnion_brackets_ZX" through (7.9248, 0, 0) normal (0, 0, -1) x (0, 1, 0)
ref_plane "to_trunnion_brackets1_XY" through (7.9248, 9.525, 0) normal (0, 1, 0) x (1, 0, 0)
ref_plane "to_trunnion_brackets1_YZ" through (7.9248, 9.525, 0) normal (1, 0, 0) x (0, 0, -1)
ref_plane "to_trunnion_brackets1_ZX" through (7.9248, 9.525, 0) normal (0, 0, -1) x (0, 1, 0)
ref_plane "to_trunnion_brackets2_XY" through (7.9248, -9.525, 0) normal (0, 1, 0) x (1, 0, 0)
ref_plane "to_trunnion_brackets2_YZ" through (7.9248, -9.525, 0) normal (1, 0, 0) x (0, 0, -1)
ref_plane "to_trunnion_brackets2_ZX" through (7.9248, -9.525, 0) normal (0, 0, -1) x (0, 1, 0)
ref_plane "to_tube_XY" through (25.908, 0, 0) normal (1, 0, 0) x (0, 0, -1)
ref_plane "to_tube_YZ" through (25.908, 0, 0) normal (0, 0, -1) x (0, 1, 0)
ref_plane "to_tube_ZX" through (25.908, 0, 0) normal (0, 1, 0) x (1, 0, 0)
properties part number "01R000-0_rod_guide"
